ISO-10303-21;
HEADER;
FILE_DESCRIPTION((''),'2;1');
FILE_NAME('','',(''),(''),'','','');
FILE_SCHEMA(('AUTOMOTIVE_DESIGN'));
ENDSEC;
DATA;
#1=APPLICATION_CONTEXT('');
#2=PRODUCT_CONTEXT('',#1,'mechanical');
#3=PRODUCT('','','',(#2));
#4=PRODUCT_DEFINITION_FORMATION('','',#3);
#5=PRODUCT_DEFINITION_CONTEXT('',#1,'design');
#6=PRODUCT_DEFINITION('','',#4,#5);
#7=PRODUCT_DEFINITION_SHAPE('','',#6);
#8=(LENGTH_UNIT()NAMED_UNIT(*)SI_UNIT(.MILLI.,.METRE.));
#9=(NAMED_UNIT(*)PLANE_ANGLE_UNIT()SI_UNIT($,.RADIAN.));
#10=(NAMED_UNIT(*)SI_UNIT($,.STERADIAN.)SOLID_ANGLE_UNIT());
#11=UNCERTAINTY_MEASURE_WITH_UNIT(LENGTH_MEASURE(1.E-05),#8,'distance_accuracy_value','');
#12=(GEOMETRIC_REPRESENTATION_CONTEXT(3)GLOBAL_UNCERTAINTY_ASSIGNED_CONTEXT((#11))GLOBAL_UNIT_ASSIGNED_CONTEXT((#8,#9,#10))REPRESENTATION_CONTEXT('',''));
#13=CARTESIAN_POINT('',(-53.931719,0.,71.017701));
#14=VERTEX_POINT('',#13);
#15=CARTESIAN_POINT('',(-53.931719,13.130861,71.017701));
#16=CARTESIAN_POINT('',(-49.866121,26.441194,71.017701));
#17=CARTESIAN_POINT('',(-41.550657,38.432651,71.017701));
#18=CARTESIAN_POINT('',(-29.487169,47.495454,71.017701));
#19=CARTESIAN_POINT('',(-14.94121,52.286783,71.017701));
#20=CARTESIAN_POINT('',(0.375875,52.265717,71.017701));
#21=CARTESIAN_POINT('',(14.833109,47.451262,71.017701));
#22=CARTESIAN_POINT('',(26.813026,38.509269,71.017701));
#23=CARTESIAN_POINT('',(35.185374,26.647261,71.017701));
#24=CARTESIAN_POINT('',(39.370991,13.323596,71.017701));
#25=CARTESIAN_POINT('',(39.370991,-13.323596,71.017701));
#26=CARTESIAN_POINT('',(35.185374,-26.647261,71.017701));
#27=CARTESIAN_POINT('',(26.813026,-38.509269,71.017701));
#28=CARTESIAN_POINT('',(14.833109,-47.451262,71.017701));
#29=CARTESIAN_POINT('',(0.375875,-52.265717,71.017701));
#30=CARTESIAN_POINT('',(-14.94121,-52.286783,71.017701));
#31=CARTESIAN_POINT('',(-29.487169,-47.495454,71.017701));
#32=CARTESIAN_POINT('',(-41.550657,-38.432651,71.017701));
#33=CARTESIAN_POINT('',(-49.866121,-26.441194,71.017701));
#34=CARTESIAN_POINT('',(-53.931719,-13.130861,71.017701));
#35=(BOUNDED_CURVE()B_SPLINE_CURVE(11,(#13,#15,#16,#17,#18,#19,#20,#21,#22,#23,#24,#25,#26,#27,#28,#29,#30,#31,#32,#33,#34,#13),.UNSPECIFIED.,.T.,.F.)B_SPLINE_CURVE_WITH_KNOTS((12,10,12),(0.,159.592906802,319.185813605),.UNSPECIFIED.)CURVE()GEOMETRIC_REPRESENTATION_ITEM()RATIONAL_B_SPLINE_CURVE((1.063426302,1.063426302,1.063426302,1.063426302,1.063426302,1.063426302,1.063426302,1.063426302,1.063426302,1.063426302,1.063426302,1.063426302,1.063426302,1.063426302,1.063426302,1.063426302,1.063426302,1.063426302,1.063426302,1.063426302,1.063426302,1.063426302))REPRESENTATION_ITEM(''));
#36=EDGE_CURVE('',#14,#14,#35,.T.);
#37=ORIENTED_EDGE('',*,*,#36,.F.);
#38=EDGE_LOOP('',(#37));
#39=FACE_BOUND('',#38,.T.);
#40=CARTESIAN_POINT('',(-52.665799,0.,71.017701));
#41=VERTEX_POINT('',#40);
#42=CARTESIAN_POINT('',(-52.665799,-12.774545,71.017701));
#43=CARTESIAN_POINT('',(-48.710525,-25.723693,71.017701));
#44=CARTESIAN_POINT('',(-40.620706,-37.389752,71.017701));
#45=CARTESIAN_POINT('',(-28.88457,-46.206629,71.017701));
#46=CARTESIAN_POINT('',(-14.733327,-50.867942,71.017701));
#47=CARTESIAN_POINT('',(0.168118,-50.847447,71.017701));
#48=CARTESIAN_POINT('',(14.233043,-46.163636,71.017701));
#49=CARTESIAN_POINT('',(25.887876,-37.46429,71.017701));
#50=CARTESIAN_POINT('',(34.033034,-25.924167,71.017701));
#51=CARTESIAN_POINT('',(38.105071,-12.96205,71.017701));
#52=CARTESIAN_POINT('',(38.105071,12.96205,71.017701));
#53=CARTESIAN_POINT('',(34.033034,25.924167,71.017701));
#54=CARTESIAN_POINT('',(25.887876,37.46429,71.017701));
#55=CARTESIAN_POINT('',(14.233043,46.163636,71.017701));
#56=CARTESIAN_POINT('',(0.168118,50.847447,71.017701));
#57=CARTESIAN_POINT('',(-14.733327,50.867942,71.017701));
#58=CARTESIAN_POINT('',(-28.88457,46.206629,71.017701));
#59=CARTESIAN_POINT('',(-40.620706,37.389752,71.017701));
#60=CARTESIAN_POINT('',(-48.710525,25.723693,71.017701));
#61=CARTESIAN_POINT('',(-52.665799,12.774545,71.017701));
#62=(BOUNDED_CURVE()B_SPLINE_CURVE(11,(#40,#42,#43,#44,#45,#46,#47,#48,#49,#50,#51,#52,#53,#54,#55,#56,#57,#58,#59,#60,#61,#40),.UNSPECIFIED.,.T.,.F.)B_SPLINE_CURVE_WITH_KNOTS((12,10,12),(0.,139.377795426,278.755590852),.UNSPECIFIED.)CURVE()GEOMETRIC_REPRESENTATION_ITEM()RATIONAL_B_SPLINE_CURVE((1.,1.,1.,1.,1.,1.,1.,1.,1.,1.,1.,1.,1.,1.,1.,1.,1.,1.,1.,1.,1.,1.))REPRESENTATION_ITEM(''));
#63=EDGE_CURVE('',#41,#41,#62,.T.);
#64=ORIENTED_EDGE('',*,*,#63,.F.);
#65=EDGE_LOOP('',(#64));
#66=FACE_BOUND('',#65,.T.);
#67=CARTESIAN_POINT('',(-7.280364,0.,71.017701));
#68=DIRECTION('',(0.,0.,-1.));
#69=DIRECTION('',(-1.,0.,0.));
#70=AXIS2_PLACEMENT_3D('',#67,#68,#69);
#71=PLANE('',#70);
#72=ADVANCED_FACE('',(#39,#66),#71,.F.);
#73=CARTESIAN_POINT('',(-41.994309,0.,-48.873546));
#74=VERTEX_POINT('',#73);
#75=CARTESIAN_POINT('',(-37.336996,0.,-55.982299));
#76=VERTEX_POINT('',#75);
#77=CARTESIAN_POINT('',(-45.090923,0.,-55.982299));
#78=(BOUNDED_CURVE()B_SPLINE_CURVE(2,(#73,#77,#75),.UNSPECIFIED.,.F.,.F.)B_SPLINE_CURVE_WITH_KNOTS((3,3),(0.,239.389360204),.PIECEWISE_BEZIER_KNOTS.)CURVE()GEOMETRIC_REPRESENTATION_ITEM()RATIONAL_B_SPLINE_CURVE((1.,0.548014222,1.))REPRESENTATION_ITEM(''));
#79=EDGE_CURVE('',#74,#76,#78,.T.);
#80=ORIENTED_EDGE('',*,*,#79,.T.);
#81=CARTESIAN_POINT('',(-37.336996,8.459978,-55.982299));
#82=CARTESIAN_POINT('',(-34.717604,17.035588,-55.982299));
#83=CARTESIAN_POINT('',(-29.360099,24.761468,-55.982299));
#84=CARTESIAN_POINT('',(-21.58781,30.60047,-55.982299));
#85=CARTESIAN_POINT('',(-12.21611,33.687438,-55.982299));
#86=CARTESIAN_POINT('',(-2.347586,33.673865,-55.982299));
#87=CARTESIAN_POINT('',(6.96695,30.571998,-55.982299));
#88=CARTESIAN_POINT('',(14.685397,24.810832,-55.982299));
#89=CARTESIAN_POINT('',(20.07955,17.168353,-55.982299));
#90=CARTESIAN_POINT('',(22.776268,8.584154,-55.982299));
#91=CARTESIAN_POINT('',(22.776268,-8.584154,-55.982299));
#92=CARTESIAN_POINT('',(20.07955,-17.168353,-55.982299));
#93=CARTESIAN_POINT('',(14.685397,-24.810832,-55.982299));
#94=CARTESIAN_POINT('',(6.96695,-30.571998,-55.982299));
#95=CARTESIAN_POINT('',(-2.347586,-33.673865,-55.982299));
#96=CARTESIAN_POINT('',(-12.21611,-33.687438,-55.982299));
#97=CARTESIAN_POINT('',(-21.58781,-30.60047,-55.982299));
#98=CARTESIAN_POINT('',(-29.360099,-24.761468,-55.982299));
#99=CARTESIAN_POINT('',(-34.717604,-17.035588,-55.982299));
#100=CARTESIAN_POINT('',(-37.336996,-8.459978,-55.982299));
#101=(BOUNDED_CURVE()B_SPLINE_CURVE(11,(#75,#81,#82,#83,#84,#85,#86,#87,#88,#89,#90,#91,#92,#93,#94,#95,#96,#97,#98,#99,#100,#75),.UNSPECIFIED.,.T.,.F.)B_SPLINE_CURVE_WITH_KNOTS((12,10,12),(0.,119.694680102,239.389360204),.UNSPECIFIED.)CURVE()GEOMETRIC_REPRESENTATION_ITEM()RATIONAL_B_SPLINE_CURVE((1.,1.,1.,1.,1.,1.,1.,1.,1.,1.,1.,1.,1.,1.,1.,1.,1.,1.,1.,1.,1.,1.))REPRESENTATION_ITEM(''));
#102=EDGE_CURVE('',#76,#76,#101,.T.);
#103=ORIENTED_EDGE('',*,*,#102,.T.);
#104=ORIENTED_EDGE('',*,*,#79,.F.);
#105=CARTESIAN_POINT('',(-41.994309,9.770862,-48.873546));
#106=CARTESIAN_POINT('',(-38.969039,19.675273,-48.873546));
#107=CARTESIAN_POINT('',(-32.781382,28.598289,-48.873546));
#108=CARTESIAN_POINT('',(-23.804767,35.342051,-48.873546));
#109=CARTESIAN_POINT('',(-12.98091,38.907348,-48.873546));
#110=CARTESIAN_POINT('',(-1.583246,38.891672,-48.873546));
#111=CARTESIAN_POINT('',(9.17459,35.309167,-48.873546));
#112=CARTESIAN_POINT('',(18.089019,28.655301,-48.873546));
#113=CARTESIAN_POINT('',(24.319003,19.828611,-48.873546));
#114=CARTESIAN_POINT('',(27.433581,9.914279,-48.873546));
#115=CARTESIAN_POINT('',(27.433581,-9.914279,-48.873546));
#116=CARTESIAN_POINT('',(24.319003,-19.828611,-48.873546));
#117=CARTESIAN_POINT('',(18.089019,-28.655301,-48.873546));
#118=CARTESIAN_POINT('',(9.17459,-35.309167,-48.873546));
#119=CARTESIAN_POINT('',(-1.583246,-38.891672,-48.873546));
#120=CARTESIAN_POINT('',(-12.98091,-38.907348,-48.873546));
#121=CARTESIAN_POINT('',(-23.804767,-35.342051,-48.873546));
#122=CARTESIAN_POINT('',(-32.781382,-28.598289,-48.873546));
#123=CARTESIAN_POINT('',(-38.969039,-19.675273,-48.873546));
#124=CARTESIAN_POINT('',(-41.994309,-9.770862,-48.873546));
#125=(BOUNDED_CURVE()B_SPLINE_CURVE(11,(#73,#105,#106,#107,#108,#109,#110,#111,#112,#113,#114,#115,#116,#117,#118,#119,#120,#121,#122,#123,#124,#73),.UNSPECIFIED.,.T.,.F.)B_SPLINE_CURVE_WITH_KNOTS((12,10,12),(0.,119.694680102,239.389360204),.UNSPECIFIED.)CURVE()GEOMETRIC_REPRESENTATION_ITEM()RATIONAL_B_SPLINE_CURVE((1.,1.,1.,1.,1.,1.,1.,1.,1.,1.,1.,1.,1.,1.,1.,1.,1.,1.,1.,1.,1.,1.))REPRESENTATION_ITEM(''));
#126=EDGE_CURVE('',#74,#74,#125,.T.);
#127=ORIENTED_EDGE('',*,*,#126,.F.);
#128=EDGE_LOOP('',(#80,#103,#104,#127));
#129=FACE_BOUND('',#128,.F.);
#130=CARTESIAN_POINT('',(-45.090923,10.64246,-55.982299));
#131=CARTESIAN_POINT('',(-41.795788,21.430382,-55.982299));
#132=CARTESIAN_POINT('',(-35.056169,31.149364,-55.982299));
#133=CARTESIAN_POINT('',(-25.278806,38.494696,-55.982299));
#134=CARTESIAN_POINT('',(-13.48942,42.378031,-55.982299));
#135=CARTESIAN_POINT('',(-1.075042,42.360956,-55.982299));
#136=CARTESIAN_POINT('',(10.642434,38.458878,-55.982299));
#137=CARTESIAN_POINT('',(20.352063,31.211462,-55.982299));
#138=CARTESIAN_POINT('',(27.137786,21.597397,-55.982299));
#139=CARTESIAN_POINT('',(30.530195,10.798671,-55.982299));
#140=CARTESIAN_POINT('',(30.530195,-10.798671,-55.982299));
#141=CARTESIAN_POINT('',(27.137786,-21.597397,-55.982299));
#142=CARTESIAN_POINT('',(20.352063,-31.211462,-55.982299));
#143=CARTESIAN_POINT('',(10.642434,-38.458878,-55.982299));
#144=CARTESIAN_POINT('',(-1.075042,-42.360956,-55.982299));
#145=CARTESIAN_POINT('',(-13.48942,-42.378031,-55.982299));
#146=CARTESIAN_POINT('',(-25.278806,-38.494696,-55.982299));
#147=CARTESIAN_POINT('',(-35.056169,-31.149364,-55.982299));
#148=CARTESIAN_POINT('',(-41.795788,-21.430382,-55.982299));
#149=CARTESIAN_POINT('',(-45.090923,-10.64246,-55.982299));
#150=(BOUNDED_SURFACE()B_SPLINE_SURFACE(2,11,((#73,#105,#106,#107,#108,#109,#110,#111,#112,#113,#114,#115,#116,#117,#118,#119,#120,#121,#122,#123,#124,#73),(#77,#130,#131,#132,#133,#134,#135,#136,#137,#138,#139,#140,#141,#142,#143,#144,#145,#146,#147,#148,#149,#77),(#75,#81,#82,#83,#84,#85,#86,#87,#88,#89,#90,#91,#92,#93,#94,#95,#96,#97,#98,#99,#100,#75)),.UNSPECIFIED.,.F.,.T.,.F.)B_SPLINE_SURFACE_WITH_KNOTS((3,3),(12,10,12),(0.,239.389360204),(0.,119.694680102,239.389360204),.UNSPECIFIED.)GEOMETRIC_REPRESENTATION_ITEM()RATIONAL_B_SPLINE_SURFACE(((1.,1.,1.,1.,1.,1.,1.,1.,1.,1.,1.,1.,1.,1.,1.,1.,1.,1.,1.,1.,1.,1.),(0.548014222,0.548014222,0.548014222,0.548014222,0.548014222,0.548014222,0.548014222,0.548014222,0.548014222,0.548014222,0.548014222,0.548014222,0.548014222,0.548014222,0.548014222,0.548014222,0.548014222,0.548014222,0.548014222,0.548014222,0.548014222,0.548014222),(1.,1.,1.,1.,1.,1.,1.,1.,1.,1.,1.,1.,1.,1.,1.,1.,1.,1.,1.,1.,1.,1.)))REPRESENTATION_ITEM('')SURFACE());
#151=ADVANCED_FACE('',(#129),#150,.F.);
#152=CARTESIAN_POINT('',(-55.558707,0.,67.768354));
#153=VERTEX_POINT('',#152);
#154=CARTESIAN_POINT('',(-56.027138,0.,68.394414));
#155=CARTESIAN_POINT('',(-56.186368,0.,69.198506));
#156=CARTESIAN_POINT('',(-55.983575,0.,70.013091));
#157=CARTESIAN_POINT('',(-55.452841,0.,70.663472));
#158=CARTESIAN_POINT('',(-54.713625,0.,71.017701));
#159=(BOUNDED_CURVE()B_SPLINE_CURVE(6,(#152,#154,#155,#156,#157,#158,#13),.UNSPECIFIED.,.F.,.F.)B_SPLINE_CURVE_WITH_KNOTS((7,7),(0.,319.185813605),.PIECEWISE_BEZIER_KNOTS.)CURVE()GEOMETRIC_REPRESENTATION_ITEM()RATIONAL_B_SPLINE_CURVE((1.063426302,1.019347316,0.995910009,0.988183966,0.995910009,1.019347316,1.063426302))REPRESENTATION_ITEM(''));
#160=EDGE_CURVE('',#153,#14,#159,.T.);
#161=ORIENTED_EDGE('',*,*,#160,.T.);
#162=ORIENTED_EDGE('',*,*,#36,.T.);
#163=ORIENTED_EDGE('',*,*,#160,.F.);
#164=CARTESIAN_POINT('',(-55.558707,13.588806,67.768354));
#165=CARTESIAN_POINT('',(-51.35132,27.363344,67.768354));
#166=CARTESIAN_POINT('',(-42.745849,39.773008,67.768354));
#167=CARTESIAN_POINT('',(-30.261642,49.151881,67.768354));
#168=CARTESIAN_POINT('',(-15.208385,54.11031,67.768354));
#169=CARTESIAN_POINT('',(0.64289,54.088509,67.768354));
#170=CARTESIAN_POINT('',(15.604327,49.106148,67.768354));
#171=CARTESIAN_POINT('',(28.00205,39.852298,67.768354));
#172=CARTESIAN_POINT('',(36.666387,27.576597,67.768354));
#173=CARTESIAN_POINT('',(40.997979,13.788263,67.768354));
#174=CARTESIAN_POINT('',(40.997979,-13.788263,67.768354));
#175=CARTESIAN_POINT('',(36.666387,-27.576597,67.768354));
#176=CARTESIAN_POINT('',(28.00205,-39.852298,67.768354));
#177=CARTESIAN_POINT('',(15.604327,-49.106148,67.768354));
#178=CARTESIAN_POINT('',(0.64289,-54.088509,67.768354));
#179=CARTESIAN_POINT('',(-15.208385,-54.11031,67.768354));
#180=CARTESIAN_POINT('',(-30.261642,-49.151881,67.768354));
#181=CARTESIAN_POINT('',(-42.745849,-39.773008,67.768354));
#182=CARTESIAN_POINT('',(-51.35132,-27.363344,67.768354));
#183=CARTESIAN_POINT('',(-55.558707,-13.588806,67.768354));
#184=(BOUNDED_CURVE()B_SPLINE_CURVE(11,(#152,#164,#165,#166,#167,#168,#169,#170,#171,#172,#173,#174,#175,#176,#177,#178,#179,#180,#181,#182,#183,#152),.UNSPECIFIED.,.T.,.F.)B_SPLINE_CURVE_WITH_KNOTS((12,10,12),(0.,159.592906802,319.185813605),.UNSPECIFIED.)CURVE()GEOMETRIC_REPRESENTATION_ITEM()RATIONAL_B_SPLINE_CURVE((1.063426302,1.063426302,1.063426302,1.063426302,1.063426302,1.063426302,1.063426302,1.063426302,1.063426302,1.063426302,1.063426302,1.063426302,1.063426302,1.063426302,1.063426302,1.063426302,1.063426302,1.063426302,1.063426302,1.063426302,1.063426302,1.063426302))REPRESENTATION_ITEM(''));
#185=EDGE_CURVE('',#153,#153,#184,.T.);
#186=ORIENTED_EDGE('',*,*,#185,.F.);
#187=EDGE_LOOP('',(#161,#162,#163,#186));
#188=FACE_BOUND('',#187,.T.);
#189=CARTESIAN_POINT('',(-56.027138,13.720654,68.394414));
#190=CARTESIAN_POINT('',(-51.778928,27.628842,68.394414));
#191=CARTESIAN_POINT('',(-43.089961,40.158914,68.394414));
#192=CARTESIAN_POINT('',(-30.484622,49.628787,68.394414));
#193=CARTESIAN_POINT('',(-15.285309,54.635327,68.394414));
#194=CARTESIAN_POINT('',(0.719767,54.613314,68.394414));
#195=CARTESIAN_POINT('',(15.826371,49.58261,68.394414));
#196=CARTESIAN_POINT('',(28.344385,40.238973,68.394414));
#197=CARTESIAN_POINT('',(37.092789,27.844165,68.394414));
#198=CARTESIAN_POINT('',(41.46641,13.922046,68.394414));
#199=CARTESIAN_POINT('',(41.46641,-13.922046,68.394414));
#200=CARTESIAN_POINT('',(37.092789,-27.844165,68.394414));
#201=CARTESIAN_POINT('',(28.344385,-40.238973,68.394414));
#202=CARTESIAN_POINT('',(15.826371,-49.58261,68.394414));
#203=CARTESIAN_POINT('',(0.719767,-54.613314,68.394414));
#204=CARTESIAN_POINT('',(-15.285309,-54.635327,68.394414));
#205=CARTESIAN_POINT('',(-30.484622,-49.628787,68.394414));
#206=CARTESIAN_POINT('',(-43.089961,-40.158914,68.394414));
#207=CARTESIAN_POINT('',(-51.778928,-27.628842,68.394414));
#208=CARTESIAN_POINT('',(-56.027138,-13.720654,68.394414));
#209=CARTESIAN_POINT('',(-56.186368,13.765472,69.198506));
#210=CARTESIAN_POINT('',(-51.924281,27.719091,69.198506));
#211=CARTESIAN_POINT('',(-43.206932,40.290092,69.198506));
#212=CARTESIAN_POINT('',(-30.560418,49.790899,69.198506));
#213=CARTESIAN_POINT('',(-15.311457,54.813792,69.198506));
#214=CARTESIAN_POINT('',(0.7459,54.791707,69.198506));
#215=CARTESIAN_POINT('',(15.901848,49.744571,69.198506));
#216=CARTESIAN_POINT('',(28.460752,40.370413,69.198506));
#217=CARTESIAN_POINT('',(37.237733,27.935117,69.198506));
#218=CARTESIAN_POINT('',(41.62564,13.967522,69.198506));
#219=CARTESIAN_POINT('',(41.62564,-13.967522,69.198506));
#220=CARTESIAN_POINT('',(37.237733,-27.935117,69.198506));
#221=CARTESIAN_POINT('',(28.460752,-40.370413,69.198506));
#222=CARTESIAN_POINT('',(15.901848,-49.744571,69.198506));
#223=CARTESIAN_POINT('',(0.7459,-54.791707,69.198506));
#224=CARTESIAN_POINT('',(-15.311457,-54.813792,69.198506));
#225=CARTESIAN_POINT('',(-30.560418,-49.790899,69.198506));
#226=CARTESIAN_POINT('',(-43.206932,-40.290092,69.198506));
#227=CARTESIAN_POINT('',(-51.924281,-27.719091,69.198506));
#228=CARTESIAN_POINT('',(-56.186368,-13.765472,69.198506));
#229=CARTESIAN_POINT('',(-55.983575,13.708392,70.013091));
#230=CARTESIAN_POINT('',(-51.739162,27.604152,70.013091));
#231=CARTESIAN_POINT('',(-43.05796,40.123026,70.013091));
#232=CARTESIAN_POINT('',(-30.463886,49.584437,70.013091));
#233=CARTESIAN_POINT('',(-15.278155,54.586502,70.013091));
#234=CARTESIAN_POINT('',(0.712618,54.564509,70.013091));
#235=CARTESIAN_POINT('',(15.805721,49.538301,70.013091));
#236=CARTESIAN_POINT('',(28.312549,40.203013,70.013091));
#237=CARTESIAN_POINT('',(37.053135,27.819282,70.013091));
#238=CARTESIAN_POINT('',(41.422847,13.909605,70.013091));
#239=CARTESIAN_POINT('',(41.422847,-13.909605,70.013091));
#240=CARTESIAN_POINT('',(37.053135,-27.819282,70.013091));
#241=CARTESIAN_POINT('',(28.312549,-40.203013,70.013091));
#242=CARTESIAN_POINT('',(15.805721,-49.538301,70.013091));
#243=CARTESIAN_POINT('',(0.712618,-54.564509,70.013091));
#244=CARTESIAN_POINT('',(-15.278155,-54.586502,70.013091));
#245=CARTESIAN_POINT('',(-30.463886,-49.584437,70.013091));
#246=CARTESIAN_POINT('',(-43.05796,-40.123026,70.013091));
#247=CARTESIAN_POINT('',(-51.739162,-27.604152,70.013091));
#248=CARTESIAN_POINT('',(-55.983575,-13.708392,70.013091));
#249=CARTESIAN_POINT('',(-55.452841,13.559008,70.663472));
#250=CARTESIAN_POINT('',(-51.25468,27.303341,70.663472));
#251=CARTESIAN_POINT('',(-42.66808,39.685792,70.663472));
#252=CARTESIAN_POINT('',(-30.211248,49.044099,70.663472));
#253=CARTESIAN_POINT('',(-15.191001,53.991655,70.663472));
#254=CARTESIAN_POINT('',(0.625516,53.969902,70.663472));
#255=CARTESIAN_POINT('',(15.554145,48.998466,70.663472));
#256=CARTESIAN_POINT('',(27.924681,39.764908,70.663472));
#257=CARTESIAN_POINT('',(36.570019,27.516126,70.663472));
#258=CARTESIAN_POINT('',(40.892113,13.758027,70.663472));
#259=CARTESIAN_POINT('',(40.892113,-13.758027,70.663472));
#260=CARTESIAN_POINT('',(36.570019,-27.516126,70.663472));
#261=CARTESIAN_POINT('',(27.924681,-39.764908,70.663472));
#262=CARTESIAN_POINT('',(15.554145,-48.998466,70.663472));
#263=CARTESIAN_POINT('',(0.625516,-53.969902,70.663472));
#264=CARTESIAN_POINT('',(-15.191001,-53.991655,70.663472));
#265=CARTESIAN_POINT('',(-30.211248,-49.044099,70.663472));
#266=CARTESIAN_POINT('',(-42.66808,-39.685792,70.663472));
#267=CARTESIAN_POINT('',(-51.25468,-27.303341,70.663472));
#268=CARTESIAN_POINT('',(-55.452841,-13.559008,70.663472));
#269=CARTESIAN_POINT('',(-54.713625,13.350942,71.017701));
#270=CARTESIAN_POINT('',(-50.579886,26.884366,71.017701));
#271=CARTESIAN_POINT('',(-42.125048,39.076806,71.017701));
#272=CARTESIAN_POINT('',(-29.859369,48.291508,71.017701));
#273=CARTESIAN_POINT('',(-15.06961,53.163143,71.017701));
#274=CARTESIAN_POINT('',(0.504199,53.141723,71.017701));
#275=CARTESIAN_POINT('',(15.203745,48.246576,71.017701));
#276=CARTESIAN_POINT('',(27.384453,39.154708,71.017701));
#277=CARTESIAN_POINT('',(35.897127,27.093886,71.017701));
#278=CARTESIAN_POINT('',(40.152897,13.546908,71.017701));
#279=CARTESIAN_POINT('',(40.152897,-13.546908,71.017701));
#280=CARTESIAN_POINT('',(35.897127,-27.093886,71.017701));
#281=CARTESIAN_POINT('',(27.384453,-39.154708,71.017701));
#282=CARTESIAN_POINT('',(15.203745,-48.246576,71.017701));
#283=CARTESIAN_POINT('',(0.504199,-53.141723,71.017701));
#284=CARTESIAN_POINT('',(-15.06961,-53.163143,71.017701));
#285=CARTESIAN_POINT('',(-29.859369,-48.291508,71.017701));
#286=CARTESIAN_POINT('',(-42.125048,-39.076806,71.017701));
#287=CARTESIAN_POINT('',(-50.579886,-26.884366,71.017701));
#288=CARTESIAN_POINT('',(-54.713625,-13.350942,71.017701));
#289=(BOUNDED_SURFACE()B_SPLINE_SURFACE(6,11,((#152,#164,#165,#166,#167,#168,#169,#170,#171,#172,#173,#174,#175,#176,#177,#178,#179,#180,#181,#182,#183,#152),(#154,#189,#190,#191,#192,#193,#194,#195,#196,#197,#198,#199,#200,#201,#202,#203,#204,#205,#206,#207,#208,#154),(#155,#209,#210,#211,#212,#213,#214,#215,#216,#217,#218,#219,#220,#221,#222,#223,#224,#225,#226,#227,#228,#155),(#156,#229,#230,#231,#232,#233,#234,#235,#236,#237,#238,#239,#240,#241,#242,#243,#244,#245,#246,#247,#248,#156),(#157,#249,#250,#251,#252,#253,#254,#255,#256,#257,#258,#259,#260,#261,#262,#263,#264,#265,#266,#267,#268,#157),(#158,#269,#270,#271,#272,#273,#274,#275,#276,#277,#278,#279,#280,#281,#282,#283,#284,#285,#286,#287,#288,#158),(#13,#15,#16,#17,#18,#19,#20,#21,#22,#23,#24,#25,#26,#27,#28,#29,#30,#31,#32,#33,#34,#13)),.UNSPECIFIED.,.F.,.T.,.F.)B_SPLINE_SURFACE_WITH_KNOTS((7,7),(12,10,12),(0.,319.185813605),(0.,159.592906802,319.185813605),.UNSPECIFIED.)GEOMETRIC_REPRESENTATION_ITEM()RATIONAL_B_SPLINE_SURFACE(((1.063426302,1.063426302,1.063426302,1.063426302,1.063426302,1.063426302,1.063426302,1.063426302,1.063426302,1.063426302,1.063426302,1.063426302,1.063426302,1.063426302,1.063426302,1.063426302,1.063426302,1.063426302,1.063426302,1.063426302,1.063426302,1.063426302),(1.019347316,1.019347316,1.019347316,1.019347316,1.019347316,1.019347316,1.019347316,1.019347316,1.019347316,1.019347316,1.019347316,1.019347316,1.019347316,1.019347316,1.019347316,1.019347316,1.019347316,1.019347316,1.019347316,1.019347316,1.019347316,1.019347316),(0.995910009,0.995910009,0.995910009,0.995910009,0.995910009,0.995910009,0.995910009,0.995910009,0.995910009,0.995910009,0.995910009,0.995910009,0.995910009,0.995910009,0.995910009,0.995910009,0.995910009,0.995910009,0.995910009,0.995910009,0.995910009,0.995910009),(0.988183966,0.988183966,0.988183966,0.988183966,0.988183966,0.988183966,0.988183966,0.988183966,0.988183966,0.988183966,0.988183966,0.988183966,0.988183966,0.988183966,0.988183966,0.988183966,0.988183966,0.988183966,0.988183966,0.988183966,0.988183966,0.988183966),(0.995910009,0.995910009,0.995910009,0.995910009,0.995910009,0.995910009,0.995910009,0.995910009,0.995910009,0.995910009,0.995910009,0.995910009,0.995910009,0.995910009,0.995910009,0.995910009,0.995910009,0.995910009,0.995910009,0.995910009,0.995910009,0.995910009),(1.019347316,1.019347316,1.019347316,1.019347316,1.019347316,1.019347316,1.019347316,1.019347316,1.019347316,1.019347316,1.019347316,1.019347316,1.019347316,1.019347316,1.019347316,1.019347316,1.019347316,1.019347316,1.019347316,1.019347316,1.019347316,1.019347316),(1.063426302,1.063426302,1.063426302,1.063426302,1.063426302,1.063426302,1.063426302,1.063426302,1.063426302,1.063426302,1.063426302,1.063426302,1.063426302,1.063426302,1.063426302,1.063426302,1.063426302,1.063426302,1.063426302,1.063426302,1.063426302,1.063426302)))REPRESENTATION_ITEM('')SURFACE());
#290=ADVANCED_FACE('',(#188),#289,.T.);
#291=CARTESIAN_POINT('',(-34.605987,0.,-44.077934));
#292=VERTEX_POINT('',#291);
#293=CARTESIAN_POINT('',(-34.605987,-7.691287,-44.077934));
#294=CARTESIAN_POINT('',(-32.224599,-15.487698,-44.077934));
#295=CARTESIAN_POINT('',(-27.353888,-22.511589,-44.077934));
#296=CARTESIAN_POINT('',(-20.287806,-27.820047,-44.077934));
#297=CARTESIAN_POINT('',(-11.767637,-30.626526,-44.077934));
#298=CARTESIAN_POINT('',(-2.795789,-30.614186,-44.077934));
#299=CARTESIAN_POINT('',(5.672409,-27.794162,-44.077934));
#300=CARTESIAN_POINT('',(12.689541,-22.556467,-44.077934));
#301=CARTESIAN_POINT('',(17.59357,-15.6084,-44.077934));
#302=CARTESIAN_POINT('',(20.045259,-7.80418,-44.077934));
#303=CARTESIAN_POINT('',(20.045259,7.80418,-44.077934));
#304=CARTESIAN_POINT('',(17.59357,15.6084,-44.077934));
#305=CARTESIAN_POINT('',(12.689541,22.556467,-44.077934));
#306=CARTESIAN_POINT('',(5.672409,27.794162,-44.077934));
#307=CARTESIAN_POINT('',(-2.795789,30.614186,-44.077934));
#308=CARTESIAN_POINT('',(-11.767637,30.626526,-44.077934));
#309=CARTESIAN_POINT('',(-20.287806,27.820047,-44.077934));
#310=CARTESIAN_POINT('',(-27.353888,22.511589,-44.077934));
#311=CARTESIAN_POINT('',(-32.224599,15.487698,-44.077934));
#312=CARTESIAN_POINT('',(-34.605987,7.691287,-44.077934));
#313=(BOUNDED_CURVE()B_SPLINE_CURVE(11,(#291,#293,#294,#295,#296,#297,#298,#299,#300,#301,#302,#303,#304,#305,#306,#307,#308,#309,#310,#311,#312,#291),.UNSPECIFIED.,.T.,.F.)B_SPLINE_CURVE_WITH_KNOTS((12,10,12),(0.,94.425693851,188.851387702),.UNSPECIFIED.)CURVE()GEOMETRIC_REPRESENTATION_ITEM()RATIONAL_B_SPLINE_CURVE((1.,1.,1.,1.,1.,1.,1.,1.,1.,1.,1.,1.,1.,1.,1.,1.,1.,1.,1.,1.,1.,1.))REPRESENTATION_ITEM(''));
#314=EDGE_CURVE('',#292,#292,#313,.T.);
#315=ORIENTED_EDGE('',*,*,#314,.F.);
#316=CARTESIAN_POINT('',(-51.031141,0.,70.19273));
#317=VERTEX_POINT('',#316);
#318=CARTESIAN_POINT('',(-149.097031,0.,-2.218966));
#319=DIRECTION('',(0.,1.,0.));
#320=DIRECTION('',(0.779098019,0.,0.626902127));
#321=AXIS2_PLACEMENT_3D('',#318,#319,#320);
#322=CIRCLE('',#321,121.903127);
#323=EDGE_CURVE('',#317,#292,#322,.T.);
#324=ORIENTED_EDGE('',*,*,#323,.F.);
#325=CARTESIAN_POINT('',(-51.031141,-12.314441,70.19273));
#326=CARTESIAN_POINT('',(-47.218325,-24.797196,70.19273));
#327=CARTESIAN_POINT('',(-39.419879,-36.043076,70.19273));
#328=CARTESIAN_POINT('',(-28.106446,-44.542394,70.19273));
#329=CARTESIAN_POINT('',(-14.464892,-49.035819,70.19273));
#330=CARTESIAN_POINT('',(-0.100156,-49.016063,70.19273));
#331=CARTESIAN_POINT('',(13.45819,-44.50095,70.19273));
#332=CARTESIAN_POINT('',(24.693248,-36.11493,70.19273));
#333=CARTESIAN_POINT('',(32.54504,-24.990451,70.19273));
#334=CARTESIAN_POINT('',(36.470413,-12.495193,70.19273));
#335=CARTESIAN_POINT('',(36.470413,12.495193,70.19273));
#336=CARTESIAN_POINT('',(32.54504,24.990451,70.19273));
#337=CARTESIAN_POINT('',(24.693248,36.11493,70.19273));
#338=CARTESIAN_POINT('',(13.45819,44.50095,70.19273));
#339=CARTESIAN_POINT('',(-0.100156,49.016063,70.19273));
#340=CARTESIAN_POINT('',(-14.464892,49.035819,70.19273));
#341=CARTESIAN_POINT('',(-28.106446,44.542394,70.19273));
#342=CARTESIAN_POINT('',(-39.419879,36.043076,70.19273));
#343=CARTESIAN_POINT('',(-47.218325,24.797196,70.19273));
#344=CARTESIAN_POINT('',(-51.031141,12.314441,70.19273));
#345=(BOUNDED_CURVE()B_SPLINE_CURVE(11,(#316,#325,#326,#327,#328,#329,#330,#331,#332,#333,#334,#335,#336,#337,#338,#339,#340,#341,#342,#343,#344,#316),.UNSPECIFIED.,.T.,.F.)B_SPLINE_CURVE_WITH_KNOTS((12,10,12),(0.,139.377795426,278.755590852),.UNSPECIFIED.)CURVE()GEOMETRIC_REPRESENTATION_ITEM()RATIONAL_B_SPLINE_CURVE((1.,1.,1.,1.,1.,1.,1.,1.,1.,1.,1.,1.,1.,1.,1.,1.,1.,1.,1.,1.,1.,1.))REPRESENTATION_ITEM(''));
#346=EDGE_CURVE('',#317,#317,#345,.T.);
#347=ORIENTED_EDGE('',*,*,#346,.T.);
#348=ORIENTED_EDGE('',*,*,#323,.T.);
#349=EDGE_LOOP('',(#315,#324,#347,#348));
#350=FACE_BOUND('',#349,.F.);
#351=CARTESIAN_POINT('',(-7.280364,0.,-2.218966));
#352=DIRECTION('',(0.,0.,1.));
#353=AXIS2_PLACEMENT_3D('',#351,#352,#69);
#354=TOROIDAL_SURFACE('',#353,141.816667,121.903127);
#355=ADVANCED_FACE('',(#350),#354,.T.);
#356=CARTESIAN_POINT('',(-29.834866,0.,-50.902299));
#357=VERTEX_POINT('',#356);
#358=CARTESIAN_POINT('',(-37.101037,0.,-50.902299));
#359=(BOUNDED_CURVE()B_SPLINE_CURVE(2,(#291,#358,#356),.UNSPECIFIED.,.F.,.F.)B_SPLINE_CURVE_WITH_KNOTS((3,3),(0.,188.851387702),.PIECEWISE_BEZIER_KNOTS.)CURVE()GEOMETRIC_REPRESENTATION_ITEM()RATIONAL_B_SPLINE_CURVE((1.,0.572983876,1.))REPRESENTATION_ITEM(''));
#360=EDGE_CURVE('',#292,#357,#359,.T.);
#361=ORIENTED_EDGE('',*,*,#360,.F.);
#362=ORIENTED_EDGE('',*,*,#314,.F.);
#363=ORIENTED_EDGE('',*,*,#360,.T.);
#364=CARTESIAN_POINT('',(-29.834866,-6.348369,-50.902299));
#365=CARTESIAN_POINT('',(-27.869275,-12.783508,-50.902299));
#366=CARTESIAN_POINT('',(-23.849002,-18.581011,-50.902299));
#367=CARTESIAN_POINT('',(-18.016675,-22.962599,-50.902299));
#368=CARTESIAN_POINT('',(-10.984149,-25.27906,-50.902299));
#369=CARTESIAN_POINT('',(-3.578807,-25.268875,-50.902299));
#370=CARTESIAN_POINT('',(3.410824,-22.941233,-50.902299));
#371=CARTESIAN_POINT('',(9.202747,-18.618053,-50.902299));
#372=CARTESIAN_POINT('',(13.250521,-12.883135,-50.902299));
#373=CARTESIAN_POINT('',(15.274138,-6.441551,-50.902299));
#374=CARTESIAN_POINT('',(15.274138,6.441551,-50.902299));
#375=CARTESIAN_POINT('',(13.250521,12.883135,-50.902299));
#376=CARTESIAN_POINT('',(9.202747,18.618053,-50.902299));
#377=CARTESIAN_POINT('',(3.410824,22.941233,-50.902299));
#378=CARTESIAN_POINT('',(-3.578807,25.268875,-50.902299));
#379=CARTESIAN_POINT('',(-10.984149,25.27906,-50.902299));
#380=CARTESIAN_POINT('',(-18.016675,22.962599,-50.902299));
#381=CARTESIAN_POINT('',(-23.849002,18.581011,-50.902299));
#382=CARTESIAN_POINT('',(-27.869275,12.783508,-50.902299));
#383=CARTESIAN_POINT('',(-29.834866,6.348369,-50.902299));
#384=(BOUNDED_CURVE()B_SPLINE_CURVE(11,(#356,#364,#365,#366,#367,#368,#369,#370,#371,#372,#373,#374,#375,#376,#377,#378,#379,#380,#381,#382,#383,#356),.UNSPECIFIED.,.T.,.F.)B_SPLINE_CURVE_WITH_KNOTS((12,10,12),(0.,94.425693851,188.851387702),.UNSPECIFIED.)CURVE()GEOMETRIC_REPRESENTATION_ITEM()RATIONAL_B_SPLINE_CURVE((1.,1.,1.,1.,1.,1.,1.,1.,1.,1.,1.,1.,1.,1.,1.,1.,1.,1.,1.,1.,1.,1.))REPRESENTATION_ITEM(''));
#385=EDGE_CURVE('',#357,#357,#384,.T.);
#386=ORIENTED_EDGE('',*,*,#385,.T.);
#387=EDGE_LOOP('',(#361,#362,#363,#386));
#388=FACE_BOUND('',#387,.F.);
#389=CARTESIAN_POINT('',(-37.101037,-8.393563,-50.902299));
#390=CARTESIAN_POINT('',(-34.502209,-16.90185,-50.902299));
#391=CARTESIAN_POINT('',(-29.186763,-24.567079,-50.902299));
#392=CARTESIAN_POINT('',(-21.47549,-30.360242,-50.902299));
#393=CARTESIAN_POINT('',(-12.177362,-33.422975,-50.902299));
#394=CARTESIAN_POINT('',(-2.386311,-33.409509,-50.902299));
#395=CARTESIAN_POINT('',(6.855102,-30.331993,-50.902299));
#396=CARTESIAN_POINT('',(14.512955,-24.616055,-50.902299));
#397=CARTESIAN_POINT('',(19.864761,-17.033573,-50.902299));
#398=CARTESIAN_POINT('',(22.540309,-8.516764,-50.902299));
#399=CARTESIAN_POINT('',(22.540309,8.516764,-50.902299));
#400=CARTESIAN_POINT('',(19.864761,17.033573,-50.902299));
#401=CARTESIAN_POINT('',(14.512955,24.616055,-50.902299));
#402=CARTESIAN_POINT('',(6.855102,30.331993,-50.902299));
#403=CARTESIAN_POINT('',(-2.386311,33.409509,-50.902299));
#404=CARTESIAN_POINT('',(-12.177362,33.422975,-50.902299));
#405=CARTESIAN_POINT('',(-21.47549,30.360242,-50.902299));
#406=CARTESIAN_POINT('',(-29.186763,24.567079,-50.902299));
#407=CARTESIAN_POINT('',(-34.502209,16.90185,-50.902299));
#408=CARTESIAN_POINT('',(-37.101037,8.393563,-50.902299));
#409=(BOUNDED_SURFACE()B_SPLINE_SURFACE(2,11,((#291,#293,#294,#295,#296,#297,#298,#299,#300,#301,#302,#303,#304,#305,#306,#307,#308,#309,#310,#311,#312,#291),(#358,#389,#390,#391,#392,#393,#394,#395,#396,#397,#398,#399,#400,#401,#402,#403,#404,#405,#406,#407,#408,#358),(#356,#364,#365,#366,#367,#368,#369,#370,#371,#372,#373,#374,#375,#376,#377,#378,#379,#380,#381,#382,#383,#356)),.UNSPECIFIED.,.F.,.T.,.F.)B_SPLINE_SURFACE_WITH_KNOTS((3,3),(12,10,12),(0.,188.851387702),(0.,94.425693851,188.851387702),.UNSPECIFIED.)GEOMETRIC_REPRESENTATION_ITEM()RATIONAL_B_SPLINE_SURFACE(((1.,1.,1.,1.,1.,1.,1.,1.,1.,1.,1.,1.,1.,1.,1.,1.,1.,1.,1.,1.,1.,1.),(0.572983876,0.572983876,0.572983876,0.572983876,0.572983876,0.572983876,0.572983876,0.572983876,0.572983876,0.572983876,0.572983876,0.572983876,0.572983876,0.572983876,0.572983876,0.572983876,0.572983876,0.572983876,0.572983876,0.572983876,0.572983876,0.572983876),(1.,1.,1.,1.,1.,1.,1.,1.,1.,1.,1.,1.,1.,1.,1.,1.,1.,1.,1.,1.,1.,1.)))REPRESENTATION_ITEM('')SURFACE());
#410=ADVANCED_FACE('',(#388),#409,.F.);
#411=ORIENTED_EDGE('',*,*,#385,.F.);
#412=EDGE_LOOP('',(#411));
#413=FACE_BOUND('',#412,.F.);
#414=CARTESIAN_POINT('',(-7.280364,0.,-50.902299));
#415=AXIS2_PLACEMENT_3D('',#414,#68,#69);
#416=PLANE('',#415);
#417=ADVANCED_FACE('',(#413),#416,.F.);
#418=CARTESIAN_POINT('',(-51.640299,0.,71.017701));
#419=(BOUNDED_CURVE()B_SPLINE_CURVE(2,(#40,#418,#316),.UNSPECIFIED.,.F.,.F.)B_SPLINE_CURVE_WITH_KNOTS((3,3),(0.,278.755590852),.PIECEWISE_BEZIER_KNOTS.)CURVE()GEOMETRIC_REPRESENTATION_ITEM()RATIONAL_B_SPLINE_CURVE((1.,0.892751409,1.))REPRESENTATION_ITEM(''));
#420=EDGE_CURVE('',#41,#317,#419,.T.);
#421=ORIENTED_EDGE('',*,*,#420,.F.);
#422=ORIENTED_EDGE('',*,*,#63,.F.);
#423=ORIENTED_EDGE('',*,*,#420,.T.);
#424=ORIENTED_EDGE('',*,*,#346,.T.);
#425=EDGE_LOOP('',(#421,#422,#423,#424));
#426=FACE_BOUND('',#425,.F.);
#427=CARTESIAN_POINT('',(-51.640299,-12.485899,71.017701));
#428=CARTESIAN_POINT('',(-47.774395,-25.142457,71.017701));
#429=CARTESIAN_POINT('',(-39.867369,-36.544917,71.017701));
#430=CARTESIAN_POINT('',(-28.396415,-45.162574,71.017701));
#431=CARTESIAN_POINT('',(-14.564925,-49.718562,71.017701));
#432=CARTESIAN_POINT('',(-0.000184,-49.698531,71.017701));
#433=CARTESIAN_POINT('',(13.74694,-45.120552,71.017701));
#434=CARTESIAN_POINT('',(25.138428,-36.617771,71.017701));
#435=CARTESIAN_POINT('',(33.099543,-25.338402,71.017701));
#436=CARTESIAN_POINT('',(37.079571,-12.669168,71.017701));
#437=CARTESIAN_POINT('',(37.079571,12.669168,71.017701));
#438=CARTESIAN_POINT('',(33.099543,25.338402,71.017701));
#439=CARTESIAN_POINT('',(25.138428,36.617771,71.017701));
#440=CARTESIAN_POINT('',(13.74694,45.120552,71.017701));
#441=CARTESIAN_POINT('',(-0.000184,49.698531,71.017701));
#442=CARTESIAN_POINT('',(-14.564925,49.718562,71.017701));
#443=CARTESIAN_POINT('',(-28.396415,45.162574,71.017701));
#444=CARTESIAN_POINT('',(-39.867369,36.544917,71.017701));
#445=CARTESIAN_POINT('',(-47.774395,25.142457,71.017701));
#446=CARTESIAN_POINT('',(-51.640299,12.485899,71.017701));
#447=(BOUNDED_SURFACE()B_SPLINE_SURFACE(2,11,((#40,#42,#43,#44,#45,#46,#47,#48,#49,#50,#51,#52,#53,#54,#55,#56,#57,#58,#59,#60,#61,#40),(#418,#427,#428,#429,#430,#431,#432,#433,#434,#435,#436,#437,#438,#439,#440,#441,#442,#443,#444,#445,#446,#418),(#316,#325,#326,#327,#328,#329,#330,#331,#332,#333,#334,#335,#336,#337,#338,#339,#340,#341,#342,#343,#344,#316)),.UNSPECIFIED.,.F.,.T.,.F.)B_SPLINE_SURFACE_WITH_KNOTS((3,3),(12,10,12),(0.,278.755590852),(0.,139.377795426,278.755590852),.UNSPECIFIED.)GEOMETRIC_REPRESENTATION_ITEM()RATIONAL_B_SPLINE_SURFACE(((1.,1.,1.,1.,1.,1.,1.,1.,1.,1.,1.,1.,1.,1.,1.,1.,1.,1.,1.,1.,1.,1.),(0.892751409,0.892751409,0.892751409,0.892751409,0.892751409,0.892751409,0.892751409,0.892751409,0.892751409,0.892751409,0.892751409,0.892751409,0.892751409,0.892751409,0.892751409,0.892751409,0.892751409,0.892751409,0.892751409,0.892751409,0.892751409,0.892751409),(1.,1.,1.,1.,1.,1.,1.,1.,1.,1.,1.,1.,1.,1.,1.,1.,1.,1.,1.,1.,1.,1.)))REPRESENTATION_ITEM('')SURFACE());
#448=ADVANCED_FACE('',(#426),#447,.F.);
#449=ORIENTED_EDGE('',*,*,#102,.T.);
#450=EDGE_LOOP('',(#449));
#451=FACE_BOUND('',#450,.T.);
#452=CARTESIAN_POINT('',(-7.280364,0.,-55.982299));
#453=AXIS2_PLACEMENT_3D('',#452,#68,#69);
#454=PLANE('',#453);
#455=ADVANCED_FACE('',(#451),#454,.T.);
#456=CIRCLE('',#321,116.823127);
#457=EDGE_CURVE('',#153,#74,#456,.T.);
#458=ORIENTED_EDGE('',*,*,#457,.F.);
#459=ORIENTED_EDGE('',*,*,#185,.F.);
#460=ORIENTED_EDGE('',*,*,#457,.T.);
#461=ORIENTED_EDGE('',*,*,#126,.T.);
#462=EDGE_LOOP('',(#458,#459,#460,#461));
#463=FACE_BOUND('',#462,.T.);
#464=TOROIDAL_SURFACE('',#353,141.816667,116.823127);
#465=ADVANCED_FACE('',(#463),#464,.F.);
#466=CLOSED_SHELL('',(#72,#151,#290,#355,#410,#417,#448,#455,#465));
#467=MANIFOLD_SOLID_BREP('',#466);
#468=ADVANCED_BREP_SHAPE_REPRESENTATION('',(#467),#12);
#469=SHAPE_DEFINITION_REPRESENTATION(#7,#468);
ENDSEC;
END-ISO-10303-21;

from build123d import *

# Parameters (mm, degrees)
F2_T = -5.08
F3_R = 2.032
F4_R = 5.08
F5_R = 5.08


with BuildPart() as f1:
    # F0 (on Front) → F1 (revolve)
    with BuildSketch(Plane.XZ):
        with BuildLine():
            Line((-7.2803640187, -55.9822989851), (-7.2803640187, 71.0177010149))
            Line((-7.2803640187, 71.0177010149), (-58.0803640187, 71.0177010149))
            ThreePointArc((-58.0803640187, 71.0177010149), (-32.8536748418, 9.4053699326), (-45.3803640187, -55.9822989851))
            Line((-45.3803640187, -55.9822989851), (-7.2803640187, -55.9822989851))
        make_face()
    revolve(axis=Axis((-7.2803640187, 0, 7.5177010149), (0, 0, -1)))

    # F2
    f2_openings = [f1.faces().sort_by_distance(p)[0] for p in [
        (-7.280364, 0, 71.017701),
    ]]
    offset(amount=F2_T, openings=f2_openings)

    # F3
    f3_edges = [f1.edges().sort_by_distance(p)[0] for p in [
        (37.084966, 0, 71.017701),
        (43.519636, 0, 71.017701),
    ]]
    fillet(f3_edges, radius=F3_R)

    # F4
    f4_edges = [f1.edges().sort_by_distance(p)[0] for p in [
        (-27.965981, 0, 11.479253),
        (36.470413, 0, 70.19273),
        (22.776268, 0, -50.902299),
    ]]
    fillet(f4_edges, radius=F4_R)

    # F5
    f5_edges = [f1.edges().sort_by_distance(p)[0] for p in [
        (30.819636, 0, -55.982299),
    ]]
    fillet(f5_edges, radius=F5_R)


solid = f1.part
